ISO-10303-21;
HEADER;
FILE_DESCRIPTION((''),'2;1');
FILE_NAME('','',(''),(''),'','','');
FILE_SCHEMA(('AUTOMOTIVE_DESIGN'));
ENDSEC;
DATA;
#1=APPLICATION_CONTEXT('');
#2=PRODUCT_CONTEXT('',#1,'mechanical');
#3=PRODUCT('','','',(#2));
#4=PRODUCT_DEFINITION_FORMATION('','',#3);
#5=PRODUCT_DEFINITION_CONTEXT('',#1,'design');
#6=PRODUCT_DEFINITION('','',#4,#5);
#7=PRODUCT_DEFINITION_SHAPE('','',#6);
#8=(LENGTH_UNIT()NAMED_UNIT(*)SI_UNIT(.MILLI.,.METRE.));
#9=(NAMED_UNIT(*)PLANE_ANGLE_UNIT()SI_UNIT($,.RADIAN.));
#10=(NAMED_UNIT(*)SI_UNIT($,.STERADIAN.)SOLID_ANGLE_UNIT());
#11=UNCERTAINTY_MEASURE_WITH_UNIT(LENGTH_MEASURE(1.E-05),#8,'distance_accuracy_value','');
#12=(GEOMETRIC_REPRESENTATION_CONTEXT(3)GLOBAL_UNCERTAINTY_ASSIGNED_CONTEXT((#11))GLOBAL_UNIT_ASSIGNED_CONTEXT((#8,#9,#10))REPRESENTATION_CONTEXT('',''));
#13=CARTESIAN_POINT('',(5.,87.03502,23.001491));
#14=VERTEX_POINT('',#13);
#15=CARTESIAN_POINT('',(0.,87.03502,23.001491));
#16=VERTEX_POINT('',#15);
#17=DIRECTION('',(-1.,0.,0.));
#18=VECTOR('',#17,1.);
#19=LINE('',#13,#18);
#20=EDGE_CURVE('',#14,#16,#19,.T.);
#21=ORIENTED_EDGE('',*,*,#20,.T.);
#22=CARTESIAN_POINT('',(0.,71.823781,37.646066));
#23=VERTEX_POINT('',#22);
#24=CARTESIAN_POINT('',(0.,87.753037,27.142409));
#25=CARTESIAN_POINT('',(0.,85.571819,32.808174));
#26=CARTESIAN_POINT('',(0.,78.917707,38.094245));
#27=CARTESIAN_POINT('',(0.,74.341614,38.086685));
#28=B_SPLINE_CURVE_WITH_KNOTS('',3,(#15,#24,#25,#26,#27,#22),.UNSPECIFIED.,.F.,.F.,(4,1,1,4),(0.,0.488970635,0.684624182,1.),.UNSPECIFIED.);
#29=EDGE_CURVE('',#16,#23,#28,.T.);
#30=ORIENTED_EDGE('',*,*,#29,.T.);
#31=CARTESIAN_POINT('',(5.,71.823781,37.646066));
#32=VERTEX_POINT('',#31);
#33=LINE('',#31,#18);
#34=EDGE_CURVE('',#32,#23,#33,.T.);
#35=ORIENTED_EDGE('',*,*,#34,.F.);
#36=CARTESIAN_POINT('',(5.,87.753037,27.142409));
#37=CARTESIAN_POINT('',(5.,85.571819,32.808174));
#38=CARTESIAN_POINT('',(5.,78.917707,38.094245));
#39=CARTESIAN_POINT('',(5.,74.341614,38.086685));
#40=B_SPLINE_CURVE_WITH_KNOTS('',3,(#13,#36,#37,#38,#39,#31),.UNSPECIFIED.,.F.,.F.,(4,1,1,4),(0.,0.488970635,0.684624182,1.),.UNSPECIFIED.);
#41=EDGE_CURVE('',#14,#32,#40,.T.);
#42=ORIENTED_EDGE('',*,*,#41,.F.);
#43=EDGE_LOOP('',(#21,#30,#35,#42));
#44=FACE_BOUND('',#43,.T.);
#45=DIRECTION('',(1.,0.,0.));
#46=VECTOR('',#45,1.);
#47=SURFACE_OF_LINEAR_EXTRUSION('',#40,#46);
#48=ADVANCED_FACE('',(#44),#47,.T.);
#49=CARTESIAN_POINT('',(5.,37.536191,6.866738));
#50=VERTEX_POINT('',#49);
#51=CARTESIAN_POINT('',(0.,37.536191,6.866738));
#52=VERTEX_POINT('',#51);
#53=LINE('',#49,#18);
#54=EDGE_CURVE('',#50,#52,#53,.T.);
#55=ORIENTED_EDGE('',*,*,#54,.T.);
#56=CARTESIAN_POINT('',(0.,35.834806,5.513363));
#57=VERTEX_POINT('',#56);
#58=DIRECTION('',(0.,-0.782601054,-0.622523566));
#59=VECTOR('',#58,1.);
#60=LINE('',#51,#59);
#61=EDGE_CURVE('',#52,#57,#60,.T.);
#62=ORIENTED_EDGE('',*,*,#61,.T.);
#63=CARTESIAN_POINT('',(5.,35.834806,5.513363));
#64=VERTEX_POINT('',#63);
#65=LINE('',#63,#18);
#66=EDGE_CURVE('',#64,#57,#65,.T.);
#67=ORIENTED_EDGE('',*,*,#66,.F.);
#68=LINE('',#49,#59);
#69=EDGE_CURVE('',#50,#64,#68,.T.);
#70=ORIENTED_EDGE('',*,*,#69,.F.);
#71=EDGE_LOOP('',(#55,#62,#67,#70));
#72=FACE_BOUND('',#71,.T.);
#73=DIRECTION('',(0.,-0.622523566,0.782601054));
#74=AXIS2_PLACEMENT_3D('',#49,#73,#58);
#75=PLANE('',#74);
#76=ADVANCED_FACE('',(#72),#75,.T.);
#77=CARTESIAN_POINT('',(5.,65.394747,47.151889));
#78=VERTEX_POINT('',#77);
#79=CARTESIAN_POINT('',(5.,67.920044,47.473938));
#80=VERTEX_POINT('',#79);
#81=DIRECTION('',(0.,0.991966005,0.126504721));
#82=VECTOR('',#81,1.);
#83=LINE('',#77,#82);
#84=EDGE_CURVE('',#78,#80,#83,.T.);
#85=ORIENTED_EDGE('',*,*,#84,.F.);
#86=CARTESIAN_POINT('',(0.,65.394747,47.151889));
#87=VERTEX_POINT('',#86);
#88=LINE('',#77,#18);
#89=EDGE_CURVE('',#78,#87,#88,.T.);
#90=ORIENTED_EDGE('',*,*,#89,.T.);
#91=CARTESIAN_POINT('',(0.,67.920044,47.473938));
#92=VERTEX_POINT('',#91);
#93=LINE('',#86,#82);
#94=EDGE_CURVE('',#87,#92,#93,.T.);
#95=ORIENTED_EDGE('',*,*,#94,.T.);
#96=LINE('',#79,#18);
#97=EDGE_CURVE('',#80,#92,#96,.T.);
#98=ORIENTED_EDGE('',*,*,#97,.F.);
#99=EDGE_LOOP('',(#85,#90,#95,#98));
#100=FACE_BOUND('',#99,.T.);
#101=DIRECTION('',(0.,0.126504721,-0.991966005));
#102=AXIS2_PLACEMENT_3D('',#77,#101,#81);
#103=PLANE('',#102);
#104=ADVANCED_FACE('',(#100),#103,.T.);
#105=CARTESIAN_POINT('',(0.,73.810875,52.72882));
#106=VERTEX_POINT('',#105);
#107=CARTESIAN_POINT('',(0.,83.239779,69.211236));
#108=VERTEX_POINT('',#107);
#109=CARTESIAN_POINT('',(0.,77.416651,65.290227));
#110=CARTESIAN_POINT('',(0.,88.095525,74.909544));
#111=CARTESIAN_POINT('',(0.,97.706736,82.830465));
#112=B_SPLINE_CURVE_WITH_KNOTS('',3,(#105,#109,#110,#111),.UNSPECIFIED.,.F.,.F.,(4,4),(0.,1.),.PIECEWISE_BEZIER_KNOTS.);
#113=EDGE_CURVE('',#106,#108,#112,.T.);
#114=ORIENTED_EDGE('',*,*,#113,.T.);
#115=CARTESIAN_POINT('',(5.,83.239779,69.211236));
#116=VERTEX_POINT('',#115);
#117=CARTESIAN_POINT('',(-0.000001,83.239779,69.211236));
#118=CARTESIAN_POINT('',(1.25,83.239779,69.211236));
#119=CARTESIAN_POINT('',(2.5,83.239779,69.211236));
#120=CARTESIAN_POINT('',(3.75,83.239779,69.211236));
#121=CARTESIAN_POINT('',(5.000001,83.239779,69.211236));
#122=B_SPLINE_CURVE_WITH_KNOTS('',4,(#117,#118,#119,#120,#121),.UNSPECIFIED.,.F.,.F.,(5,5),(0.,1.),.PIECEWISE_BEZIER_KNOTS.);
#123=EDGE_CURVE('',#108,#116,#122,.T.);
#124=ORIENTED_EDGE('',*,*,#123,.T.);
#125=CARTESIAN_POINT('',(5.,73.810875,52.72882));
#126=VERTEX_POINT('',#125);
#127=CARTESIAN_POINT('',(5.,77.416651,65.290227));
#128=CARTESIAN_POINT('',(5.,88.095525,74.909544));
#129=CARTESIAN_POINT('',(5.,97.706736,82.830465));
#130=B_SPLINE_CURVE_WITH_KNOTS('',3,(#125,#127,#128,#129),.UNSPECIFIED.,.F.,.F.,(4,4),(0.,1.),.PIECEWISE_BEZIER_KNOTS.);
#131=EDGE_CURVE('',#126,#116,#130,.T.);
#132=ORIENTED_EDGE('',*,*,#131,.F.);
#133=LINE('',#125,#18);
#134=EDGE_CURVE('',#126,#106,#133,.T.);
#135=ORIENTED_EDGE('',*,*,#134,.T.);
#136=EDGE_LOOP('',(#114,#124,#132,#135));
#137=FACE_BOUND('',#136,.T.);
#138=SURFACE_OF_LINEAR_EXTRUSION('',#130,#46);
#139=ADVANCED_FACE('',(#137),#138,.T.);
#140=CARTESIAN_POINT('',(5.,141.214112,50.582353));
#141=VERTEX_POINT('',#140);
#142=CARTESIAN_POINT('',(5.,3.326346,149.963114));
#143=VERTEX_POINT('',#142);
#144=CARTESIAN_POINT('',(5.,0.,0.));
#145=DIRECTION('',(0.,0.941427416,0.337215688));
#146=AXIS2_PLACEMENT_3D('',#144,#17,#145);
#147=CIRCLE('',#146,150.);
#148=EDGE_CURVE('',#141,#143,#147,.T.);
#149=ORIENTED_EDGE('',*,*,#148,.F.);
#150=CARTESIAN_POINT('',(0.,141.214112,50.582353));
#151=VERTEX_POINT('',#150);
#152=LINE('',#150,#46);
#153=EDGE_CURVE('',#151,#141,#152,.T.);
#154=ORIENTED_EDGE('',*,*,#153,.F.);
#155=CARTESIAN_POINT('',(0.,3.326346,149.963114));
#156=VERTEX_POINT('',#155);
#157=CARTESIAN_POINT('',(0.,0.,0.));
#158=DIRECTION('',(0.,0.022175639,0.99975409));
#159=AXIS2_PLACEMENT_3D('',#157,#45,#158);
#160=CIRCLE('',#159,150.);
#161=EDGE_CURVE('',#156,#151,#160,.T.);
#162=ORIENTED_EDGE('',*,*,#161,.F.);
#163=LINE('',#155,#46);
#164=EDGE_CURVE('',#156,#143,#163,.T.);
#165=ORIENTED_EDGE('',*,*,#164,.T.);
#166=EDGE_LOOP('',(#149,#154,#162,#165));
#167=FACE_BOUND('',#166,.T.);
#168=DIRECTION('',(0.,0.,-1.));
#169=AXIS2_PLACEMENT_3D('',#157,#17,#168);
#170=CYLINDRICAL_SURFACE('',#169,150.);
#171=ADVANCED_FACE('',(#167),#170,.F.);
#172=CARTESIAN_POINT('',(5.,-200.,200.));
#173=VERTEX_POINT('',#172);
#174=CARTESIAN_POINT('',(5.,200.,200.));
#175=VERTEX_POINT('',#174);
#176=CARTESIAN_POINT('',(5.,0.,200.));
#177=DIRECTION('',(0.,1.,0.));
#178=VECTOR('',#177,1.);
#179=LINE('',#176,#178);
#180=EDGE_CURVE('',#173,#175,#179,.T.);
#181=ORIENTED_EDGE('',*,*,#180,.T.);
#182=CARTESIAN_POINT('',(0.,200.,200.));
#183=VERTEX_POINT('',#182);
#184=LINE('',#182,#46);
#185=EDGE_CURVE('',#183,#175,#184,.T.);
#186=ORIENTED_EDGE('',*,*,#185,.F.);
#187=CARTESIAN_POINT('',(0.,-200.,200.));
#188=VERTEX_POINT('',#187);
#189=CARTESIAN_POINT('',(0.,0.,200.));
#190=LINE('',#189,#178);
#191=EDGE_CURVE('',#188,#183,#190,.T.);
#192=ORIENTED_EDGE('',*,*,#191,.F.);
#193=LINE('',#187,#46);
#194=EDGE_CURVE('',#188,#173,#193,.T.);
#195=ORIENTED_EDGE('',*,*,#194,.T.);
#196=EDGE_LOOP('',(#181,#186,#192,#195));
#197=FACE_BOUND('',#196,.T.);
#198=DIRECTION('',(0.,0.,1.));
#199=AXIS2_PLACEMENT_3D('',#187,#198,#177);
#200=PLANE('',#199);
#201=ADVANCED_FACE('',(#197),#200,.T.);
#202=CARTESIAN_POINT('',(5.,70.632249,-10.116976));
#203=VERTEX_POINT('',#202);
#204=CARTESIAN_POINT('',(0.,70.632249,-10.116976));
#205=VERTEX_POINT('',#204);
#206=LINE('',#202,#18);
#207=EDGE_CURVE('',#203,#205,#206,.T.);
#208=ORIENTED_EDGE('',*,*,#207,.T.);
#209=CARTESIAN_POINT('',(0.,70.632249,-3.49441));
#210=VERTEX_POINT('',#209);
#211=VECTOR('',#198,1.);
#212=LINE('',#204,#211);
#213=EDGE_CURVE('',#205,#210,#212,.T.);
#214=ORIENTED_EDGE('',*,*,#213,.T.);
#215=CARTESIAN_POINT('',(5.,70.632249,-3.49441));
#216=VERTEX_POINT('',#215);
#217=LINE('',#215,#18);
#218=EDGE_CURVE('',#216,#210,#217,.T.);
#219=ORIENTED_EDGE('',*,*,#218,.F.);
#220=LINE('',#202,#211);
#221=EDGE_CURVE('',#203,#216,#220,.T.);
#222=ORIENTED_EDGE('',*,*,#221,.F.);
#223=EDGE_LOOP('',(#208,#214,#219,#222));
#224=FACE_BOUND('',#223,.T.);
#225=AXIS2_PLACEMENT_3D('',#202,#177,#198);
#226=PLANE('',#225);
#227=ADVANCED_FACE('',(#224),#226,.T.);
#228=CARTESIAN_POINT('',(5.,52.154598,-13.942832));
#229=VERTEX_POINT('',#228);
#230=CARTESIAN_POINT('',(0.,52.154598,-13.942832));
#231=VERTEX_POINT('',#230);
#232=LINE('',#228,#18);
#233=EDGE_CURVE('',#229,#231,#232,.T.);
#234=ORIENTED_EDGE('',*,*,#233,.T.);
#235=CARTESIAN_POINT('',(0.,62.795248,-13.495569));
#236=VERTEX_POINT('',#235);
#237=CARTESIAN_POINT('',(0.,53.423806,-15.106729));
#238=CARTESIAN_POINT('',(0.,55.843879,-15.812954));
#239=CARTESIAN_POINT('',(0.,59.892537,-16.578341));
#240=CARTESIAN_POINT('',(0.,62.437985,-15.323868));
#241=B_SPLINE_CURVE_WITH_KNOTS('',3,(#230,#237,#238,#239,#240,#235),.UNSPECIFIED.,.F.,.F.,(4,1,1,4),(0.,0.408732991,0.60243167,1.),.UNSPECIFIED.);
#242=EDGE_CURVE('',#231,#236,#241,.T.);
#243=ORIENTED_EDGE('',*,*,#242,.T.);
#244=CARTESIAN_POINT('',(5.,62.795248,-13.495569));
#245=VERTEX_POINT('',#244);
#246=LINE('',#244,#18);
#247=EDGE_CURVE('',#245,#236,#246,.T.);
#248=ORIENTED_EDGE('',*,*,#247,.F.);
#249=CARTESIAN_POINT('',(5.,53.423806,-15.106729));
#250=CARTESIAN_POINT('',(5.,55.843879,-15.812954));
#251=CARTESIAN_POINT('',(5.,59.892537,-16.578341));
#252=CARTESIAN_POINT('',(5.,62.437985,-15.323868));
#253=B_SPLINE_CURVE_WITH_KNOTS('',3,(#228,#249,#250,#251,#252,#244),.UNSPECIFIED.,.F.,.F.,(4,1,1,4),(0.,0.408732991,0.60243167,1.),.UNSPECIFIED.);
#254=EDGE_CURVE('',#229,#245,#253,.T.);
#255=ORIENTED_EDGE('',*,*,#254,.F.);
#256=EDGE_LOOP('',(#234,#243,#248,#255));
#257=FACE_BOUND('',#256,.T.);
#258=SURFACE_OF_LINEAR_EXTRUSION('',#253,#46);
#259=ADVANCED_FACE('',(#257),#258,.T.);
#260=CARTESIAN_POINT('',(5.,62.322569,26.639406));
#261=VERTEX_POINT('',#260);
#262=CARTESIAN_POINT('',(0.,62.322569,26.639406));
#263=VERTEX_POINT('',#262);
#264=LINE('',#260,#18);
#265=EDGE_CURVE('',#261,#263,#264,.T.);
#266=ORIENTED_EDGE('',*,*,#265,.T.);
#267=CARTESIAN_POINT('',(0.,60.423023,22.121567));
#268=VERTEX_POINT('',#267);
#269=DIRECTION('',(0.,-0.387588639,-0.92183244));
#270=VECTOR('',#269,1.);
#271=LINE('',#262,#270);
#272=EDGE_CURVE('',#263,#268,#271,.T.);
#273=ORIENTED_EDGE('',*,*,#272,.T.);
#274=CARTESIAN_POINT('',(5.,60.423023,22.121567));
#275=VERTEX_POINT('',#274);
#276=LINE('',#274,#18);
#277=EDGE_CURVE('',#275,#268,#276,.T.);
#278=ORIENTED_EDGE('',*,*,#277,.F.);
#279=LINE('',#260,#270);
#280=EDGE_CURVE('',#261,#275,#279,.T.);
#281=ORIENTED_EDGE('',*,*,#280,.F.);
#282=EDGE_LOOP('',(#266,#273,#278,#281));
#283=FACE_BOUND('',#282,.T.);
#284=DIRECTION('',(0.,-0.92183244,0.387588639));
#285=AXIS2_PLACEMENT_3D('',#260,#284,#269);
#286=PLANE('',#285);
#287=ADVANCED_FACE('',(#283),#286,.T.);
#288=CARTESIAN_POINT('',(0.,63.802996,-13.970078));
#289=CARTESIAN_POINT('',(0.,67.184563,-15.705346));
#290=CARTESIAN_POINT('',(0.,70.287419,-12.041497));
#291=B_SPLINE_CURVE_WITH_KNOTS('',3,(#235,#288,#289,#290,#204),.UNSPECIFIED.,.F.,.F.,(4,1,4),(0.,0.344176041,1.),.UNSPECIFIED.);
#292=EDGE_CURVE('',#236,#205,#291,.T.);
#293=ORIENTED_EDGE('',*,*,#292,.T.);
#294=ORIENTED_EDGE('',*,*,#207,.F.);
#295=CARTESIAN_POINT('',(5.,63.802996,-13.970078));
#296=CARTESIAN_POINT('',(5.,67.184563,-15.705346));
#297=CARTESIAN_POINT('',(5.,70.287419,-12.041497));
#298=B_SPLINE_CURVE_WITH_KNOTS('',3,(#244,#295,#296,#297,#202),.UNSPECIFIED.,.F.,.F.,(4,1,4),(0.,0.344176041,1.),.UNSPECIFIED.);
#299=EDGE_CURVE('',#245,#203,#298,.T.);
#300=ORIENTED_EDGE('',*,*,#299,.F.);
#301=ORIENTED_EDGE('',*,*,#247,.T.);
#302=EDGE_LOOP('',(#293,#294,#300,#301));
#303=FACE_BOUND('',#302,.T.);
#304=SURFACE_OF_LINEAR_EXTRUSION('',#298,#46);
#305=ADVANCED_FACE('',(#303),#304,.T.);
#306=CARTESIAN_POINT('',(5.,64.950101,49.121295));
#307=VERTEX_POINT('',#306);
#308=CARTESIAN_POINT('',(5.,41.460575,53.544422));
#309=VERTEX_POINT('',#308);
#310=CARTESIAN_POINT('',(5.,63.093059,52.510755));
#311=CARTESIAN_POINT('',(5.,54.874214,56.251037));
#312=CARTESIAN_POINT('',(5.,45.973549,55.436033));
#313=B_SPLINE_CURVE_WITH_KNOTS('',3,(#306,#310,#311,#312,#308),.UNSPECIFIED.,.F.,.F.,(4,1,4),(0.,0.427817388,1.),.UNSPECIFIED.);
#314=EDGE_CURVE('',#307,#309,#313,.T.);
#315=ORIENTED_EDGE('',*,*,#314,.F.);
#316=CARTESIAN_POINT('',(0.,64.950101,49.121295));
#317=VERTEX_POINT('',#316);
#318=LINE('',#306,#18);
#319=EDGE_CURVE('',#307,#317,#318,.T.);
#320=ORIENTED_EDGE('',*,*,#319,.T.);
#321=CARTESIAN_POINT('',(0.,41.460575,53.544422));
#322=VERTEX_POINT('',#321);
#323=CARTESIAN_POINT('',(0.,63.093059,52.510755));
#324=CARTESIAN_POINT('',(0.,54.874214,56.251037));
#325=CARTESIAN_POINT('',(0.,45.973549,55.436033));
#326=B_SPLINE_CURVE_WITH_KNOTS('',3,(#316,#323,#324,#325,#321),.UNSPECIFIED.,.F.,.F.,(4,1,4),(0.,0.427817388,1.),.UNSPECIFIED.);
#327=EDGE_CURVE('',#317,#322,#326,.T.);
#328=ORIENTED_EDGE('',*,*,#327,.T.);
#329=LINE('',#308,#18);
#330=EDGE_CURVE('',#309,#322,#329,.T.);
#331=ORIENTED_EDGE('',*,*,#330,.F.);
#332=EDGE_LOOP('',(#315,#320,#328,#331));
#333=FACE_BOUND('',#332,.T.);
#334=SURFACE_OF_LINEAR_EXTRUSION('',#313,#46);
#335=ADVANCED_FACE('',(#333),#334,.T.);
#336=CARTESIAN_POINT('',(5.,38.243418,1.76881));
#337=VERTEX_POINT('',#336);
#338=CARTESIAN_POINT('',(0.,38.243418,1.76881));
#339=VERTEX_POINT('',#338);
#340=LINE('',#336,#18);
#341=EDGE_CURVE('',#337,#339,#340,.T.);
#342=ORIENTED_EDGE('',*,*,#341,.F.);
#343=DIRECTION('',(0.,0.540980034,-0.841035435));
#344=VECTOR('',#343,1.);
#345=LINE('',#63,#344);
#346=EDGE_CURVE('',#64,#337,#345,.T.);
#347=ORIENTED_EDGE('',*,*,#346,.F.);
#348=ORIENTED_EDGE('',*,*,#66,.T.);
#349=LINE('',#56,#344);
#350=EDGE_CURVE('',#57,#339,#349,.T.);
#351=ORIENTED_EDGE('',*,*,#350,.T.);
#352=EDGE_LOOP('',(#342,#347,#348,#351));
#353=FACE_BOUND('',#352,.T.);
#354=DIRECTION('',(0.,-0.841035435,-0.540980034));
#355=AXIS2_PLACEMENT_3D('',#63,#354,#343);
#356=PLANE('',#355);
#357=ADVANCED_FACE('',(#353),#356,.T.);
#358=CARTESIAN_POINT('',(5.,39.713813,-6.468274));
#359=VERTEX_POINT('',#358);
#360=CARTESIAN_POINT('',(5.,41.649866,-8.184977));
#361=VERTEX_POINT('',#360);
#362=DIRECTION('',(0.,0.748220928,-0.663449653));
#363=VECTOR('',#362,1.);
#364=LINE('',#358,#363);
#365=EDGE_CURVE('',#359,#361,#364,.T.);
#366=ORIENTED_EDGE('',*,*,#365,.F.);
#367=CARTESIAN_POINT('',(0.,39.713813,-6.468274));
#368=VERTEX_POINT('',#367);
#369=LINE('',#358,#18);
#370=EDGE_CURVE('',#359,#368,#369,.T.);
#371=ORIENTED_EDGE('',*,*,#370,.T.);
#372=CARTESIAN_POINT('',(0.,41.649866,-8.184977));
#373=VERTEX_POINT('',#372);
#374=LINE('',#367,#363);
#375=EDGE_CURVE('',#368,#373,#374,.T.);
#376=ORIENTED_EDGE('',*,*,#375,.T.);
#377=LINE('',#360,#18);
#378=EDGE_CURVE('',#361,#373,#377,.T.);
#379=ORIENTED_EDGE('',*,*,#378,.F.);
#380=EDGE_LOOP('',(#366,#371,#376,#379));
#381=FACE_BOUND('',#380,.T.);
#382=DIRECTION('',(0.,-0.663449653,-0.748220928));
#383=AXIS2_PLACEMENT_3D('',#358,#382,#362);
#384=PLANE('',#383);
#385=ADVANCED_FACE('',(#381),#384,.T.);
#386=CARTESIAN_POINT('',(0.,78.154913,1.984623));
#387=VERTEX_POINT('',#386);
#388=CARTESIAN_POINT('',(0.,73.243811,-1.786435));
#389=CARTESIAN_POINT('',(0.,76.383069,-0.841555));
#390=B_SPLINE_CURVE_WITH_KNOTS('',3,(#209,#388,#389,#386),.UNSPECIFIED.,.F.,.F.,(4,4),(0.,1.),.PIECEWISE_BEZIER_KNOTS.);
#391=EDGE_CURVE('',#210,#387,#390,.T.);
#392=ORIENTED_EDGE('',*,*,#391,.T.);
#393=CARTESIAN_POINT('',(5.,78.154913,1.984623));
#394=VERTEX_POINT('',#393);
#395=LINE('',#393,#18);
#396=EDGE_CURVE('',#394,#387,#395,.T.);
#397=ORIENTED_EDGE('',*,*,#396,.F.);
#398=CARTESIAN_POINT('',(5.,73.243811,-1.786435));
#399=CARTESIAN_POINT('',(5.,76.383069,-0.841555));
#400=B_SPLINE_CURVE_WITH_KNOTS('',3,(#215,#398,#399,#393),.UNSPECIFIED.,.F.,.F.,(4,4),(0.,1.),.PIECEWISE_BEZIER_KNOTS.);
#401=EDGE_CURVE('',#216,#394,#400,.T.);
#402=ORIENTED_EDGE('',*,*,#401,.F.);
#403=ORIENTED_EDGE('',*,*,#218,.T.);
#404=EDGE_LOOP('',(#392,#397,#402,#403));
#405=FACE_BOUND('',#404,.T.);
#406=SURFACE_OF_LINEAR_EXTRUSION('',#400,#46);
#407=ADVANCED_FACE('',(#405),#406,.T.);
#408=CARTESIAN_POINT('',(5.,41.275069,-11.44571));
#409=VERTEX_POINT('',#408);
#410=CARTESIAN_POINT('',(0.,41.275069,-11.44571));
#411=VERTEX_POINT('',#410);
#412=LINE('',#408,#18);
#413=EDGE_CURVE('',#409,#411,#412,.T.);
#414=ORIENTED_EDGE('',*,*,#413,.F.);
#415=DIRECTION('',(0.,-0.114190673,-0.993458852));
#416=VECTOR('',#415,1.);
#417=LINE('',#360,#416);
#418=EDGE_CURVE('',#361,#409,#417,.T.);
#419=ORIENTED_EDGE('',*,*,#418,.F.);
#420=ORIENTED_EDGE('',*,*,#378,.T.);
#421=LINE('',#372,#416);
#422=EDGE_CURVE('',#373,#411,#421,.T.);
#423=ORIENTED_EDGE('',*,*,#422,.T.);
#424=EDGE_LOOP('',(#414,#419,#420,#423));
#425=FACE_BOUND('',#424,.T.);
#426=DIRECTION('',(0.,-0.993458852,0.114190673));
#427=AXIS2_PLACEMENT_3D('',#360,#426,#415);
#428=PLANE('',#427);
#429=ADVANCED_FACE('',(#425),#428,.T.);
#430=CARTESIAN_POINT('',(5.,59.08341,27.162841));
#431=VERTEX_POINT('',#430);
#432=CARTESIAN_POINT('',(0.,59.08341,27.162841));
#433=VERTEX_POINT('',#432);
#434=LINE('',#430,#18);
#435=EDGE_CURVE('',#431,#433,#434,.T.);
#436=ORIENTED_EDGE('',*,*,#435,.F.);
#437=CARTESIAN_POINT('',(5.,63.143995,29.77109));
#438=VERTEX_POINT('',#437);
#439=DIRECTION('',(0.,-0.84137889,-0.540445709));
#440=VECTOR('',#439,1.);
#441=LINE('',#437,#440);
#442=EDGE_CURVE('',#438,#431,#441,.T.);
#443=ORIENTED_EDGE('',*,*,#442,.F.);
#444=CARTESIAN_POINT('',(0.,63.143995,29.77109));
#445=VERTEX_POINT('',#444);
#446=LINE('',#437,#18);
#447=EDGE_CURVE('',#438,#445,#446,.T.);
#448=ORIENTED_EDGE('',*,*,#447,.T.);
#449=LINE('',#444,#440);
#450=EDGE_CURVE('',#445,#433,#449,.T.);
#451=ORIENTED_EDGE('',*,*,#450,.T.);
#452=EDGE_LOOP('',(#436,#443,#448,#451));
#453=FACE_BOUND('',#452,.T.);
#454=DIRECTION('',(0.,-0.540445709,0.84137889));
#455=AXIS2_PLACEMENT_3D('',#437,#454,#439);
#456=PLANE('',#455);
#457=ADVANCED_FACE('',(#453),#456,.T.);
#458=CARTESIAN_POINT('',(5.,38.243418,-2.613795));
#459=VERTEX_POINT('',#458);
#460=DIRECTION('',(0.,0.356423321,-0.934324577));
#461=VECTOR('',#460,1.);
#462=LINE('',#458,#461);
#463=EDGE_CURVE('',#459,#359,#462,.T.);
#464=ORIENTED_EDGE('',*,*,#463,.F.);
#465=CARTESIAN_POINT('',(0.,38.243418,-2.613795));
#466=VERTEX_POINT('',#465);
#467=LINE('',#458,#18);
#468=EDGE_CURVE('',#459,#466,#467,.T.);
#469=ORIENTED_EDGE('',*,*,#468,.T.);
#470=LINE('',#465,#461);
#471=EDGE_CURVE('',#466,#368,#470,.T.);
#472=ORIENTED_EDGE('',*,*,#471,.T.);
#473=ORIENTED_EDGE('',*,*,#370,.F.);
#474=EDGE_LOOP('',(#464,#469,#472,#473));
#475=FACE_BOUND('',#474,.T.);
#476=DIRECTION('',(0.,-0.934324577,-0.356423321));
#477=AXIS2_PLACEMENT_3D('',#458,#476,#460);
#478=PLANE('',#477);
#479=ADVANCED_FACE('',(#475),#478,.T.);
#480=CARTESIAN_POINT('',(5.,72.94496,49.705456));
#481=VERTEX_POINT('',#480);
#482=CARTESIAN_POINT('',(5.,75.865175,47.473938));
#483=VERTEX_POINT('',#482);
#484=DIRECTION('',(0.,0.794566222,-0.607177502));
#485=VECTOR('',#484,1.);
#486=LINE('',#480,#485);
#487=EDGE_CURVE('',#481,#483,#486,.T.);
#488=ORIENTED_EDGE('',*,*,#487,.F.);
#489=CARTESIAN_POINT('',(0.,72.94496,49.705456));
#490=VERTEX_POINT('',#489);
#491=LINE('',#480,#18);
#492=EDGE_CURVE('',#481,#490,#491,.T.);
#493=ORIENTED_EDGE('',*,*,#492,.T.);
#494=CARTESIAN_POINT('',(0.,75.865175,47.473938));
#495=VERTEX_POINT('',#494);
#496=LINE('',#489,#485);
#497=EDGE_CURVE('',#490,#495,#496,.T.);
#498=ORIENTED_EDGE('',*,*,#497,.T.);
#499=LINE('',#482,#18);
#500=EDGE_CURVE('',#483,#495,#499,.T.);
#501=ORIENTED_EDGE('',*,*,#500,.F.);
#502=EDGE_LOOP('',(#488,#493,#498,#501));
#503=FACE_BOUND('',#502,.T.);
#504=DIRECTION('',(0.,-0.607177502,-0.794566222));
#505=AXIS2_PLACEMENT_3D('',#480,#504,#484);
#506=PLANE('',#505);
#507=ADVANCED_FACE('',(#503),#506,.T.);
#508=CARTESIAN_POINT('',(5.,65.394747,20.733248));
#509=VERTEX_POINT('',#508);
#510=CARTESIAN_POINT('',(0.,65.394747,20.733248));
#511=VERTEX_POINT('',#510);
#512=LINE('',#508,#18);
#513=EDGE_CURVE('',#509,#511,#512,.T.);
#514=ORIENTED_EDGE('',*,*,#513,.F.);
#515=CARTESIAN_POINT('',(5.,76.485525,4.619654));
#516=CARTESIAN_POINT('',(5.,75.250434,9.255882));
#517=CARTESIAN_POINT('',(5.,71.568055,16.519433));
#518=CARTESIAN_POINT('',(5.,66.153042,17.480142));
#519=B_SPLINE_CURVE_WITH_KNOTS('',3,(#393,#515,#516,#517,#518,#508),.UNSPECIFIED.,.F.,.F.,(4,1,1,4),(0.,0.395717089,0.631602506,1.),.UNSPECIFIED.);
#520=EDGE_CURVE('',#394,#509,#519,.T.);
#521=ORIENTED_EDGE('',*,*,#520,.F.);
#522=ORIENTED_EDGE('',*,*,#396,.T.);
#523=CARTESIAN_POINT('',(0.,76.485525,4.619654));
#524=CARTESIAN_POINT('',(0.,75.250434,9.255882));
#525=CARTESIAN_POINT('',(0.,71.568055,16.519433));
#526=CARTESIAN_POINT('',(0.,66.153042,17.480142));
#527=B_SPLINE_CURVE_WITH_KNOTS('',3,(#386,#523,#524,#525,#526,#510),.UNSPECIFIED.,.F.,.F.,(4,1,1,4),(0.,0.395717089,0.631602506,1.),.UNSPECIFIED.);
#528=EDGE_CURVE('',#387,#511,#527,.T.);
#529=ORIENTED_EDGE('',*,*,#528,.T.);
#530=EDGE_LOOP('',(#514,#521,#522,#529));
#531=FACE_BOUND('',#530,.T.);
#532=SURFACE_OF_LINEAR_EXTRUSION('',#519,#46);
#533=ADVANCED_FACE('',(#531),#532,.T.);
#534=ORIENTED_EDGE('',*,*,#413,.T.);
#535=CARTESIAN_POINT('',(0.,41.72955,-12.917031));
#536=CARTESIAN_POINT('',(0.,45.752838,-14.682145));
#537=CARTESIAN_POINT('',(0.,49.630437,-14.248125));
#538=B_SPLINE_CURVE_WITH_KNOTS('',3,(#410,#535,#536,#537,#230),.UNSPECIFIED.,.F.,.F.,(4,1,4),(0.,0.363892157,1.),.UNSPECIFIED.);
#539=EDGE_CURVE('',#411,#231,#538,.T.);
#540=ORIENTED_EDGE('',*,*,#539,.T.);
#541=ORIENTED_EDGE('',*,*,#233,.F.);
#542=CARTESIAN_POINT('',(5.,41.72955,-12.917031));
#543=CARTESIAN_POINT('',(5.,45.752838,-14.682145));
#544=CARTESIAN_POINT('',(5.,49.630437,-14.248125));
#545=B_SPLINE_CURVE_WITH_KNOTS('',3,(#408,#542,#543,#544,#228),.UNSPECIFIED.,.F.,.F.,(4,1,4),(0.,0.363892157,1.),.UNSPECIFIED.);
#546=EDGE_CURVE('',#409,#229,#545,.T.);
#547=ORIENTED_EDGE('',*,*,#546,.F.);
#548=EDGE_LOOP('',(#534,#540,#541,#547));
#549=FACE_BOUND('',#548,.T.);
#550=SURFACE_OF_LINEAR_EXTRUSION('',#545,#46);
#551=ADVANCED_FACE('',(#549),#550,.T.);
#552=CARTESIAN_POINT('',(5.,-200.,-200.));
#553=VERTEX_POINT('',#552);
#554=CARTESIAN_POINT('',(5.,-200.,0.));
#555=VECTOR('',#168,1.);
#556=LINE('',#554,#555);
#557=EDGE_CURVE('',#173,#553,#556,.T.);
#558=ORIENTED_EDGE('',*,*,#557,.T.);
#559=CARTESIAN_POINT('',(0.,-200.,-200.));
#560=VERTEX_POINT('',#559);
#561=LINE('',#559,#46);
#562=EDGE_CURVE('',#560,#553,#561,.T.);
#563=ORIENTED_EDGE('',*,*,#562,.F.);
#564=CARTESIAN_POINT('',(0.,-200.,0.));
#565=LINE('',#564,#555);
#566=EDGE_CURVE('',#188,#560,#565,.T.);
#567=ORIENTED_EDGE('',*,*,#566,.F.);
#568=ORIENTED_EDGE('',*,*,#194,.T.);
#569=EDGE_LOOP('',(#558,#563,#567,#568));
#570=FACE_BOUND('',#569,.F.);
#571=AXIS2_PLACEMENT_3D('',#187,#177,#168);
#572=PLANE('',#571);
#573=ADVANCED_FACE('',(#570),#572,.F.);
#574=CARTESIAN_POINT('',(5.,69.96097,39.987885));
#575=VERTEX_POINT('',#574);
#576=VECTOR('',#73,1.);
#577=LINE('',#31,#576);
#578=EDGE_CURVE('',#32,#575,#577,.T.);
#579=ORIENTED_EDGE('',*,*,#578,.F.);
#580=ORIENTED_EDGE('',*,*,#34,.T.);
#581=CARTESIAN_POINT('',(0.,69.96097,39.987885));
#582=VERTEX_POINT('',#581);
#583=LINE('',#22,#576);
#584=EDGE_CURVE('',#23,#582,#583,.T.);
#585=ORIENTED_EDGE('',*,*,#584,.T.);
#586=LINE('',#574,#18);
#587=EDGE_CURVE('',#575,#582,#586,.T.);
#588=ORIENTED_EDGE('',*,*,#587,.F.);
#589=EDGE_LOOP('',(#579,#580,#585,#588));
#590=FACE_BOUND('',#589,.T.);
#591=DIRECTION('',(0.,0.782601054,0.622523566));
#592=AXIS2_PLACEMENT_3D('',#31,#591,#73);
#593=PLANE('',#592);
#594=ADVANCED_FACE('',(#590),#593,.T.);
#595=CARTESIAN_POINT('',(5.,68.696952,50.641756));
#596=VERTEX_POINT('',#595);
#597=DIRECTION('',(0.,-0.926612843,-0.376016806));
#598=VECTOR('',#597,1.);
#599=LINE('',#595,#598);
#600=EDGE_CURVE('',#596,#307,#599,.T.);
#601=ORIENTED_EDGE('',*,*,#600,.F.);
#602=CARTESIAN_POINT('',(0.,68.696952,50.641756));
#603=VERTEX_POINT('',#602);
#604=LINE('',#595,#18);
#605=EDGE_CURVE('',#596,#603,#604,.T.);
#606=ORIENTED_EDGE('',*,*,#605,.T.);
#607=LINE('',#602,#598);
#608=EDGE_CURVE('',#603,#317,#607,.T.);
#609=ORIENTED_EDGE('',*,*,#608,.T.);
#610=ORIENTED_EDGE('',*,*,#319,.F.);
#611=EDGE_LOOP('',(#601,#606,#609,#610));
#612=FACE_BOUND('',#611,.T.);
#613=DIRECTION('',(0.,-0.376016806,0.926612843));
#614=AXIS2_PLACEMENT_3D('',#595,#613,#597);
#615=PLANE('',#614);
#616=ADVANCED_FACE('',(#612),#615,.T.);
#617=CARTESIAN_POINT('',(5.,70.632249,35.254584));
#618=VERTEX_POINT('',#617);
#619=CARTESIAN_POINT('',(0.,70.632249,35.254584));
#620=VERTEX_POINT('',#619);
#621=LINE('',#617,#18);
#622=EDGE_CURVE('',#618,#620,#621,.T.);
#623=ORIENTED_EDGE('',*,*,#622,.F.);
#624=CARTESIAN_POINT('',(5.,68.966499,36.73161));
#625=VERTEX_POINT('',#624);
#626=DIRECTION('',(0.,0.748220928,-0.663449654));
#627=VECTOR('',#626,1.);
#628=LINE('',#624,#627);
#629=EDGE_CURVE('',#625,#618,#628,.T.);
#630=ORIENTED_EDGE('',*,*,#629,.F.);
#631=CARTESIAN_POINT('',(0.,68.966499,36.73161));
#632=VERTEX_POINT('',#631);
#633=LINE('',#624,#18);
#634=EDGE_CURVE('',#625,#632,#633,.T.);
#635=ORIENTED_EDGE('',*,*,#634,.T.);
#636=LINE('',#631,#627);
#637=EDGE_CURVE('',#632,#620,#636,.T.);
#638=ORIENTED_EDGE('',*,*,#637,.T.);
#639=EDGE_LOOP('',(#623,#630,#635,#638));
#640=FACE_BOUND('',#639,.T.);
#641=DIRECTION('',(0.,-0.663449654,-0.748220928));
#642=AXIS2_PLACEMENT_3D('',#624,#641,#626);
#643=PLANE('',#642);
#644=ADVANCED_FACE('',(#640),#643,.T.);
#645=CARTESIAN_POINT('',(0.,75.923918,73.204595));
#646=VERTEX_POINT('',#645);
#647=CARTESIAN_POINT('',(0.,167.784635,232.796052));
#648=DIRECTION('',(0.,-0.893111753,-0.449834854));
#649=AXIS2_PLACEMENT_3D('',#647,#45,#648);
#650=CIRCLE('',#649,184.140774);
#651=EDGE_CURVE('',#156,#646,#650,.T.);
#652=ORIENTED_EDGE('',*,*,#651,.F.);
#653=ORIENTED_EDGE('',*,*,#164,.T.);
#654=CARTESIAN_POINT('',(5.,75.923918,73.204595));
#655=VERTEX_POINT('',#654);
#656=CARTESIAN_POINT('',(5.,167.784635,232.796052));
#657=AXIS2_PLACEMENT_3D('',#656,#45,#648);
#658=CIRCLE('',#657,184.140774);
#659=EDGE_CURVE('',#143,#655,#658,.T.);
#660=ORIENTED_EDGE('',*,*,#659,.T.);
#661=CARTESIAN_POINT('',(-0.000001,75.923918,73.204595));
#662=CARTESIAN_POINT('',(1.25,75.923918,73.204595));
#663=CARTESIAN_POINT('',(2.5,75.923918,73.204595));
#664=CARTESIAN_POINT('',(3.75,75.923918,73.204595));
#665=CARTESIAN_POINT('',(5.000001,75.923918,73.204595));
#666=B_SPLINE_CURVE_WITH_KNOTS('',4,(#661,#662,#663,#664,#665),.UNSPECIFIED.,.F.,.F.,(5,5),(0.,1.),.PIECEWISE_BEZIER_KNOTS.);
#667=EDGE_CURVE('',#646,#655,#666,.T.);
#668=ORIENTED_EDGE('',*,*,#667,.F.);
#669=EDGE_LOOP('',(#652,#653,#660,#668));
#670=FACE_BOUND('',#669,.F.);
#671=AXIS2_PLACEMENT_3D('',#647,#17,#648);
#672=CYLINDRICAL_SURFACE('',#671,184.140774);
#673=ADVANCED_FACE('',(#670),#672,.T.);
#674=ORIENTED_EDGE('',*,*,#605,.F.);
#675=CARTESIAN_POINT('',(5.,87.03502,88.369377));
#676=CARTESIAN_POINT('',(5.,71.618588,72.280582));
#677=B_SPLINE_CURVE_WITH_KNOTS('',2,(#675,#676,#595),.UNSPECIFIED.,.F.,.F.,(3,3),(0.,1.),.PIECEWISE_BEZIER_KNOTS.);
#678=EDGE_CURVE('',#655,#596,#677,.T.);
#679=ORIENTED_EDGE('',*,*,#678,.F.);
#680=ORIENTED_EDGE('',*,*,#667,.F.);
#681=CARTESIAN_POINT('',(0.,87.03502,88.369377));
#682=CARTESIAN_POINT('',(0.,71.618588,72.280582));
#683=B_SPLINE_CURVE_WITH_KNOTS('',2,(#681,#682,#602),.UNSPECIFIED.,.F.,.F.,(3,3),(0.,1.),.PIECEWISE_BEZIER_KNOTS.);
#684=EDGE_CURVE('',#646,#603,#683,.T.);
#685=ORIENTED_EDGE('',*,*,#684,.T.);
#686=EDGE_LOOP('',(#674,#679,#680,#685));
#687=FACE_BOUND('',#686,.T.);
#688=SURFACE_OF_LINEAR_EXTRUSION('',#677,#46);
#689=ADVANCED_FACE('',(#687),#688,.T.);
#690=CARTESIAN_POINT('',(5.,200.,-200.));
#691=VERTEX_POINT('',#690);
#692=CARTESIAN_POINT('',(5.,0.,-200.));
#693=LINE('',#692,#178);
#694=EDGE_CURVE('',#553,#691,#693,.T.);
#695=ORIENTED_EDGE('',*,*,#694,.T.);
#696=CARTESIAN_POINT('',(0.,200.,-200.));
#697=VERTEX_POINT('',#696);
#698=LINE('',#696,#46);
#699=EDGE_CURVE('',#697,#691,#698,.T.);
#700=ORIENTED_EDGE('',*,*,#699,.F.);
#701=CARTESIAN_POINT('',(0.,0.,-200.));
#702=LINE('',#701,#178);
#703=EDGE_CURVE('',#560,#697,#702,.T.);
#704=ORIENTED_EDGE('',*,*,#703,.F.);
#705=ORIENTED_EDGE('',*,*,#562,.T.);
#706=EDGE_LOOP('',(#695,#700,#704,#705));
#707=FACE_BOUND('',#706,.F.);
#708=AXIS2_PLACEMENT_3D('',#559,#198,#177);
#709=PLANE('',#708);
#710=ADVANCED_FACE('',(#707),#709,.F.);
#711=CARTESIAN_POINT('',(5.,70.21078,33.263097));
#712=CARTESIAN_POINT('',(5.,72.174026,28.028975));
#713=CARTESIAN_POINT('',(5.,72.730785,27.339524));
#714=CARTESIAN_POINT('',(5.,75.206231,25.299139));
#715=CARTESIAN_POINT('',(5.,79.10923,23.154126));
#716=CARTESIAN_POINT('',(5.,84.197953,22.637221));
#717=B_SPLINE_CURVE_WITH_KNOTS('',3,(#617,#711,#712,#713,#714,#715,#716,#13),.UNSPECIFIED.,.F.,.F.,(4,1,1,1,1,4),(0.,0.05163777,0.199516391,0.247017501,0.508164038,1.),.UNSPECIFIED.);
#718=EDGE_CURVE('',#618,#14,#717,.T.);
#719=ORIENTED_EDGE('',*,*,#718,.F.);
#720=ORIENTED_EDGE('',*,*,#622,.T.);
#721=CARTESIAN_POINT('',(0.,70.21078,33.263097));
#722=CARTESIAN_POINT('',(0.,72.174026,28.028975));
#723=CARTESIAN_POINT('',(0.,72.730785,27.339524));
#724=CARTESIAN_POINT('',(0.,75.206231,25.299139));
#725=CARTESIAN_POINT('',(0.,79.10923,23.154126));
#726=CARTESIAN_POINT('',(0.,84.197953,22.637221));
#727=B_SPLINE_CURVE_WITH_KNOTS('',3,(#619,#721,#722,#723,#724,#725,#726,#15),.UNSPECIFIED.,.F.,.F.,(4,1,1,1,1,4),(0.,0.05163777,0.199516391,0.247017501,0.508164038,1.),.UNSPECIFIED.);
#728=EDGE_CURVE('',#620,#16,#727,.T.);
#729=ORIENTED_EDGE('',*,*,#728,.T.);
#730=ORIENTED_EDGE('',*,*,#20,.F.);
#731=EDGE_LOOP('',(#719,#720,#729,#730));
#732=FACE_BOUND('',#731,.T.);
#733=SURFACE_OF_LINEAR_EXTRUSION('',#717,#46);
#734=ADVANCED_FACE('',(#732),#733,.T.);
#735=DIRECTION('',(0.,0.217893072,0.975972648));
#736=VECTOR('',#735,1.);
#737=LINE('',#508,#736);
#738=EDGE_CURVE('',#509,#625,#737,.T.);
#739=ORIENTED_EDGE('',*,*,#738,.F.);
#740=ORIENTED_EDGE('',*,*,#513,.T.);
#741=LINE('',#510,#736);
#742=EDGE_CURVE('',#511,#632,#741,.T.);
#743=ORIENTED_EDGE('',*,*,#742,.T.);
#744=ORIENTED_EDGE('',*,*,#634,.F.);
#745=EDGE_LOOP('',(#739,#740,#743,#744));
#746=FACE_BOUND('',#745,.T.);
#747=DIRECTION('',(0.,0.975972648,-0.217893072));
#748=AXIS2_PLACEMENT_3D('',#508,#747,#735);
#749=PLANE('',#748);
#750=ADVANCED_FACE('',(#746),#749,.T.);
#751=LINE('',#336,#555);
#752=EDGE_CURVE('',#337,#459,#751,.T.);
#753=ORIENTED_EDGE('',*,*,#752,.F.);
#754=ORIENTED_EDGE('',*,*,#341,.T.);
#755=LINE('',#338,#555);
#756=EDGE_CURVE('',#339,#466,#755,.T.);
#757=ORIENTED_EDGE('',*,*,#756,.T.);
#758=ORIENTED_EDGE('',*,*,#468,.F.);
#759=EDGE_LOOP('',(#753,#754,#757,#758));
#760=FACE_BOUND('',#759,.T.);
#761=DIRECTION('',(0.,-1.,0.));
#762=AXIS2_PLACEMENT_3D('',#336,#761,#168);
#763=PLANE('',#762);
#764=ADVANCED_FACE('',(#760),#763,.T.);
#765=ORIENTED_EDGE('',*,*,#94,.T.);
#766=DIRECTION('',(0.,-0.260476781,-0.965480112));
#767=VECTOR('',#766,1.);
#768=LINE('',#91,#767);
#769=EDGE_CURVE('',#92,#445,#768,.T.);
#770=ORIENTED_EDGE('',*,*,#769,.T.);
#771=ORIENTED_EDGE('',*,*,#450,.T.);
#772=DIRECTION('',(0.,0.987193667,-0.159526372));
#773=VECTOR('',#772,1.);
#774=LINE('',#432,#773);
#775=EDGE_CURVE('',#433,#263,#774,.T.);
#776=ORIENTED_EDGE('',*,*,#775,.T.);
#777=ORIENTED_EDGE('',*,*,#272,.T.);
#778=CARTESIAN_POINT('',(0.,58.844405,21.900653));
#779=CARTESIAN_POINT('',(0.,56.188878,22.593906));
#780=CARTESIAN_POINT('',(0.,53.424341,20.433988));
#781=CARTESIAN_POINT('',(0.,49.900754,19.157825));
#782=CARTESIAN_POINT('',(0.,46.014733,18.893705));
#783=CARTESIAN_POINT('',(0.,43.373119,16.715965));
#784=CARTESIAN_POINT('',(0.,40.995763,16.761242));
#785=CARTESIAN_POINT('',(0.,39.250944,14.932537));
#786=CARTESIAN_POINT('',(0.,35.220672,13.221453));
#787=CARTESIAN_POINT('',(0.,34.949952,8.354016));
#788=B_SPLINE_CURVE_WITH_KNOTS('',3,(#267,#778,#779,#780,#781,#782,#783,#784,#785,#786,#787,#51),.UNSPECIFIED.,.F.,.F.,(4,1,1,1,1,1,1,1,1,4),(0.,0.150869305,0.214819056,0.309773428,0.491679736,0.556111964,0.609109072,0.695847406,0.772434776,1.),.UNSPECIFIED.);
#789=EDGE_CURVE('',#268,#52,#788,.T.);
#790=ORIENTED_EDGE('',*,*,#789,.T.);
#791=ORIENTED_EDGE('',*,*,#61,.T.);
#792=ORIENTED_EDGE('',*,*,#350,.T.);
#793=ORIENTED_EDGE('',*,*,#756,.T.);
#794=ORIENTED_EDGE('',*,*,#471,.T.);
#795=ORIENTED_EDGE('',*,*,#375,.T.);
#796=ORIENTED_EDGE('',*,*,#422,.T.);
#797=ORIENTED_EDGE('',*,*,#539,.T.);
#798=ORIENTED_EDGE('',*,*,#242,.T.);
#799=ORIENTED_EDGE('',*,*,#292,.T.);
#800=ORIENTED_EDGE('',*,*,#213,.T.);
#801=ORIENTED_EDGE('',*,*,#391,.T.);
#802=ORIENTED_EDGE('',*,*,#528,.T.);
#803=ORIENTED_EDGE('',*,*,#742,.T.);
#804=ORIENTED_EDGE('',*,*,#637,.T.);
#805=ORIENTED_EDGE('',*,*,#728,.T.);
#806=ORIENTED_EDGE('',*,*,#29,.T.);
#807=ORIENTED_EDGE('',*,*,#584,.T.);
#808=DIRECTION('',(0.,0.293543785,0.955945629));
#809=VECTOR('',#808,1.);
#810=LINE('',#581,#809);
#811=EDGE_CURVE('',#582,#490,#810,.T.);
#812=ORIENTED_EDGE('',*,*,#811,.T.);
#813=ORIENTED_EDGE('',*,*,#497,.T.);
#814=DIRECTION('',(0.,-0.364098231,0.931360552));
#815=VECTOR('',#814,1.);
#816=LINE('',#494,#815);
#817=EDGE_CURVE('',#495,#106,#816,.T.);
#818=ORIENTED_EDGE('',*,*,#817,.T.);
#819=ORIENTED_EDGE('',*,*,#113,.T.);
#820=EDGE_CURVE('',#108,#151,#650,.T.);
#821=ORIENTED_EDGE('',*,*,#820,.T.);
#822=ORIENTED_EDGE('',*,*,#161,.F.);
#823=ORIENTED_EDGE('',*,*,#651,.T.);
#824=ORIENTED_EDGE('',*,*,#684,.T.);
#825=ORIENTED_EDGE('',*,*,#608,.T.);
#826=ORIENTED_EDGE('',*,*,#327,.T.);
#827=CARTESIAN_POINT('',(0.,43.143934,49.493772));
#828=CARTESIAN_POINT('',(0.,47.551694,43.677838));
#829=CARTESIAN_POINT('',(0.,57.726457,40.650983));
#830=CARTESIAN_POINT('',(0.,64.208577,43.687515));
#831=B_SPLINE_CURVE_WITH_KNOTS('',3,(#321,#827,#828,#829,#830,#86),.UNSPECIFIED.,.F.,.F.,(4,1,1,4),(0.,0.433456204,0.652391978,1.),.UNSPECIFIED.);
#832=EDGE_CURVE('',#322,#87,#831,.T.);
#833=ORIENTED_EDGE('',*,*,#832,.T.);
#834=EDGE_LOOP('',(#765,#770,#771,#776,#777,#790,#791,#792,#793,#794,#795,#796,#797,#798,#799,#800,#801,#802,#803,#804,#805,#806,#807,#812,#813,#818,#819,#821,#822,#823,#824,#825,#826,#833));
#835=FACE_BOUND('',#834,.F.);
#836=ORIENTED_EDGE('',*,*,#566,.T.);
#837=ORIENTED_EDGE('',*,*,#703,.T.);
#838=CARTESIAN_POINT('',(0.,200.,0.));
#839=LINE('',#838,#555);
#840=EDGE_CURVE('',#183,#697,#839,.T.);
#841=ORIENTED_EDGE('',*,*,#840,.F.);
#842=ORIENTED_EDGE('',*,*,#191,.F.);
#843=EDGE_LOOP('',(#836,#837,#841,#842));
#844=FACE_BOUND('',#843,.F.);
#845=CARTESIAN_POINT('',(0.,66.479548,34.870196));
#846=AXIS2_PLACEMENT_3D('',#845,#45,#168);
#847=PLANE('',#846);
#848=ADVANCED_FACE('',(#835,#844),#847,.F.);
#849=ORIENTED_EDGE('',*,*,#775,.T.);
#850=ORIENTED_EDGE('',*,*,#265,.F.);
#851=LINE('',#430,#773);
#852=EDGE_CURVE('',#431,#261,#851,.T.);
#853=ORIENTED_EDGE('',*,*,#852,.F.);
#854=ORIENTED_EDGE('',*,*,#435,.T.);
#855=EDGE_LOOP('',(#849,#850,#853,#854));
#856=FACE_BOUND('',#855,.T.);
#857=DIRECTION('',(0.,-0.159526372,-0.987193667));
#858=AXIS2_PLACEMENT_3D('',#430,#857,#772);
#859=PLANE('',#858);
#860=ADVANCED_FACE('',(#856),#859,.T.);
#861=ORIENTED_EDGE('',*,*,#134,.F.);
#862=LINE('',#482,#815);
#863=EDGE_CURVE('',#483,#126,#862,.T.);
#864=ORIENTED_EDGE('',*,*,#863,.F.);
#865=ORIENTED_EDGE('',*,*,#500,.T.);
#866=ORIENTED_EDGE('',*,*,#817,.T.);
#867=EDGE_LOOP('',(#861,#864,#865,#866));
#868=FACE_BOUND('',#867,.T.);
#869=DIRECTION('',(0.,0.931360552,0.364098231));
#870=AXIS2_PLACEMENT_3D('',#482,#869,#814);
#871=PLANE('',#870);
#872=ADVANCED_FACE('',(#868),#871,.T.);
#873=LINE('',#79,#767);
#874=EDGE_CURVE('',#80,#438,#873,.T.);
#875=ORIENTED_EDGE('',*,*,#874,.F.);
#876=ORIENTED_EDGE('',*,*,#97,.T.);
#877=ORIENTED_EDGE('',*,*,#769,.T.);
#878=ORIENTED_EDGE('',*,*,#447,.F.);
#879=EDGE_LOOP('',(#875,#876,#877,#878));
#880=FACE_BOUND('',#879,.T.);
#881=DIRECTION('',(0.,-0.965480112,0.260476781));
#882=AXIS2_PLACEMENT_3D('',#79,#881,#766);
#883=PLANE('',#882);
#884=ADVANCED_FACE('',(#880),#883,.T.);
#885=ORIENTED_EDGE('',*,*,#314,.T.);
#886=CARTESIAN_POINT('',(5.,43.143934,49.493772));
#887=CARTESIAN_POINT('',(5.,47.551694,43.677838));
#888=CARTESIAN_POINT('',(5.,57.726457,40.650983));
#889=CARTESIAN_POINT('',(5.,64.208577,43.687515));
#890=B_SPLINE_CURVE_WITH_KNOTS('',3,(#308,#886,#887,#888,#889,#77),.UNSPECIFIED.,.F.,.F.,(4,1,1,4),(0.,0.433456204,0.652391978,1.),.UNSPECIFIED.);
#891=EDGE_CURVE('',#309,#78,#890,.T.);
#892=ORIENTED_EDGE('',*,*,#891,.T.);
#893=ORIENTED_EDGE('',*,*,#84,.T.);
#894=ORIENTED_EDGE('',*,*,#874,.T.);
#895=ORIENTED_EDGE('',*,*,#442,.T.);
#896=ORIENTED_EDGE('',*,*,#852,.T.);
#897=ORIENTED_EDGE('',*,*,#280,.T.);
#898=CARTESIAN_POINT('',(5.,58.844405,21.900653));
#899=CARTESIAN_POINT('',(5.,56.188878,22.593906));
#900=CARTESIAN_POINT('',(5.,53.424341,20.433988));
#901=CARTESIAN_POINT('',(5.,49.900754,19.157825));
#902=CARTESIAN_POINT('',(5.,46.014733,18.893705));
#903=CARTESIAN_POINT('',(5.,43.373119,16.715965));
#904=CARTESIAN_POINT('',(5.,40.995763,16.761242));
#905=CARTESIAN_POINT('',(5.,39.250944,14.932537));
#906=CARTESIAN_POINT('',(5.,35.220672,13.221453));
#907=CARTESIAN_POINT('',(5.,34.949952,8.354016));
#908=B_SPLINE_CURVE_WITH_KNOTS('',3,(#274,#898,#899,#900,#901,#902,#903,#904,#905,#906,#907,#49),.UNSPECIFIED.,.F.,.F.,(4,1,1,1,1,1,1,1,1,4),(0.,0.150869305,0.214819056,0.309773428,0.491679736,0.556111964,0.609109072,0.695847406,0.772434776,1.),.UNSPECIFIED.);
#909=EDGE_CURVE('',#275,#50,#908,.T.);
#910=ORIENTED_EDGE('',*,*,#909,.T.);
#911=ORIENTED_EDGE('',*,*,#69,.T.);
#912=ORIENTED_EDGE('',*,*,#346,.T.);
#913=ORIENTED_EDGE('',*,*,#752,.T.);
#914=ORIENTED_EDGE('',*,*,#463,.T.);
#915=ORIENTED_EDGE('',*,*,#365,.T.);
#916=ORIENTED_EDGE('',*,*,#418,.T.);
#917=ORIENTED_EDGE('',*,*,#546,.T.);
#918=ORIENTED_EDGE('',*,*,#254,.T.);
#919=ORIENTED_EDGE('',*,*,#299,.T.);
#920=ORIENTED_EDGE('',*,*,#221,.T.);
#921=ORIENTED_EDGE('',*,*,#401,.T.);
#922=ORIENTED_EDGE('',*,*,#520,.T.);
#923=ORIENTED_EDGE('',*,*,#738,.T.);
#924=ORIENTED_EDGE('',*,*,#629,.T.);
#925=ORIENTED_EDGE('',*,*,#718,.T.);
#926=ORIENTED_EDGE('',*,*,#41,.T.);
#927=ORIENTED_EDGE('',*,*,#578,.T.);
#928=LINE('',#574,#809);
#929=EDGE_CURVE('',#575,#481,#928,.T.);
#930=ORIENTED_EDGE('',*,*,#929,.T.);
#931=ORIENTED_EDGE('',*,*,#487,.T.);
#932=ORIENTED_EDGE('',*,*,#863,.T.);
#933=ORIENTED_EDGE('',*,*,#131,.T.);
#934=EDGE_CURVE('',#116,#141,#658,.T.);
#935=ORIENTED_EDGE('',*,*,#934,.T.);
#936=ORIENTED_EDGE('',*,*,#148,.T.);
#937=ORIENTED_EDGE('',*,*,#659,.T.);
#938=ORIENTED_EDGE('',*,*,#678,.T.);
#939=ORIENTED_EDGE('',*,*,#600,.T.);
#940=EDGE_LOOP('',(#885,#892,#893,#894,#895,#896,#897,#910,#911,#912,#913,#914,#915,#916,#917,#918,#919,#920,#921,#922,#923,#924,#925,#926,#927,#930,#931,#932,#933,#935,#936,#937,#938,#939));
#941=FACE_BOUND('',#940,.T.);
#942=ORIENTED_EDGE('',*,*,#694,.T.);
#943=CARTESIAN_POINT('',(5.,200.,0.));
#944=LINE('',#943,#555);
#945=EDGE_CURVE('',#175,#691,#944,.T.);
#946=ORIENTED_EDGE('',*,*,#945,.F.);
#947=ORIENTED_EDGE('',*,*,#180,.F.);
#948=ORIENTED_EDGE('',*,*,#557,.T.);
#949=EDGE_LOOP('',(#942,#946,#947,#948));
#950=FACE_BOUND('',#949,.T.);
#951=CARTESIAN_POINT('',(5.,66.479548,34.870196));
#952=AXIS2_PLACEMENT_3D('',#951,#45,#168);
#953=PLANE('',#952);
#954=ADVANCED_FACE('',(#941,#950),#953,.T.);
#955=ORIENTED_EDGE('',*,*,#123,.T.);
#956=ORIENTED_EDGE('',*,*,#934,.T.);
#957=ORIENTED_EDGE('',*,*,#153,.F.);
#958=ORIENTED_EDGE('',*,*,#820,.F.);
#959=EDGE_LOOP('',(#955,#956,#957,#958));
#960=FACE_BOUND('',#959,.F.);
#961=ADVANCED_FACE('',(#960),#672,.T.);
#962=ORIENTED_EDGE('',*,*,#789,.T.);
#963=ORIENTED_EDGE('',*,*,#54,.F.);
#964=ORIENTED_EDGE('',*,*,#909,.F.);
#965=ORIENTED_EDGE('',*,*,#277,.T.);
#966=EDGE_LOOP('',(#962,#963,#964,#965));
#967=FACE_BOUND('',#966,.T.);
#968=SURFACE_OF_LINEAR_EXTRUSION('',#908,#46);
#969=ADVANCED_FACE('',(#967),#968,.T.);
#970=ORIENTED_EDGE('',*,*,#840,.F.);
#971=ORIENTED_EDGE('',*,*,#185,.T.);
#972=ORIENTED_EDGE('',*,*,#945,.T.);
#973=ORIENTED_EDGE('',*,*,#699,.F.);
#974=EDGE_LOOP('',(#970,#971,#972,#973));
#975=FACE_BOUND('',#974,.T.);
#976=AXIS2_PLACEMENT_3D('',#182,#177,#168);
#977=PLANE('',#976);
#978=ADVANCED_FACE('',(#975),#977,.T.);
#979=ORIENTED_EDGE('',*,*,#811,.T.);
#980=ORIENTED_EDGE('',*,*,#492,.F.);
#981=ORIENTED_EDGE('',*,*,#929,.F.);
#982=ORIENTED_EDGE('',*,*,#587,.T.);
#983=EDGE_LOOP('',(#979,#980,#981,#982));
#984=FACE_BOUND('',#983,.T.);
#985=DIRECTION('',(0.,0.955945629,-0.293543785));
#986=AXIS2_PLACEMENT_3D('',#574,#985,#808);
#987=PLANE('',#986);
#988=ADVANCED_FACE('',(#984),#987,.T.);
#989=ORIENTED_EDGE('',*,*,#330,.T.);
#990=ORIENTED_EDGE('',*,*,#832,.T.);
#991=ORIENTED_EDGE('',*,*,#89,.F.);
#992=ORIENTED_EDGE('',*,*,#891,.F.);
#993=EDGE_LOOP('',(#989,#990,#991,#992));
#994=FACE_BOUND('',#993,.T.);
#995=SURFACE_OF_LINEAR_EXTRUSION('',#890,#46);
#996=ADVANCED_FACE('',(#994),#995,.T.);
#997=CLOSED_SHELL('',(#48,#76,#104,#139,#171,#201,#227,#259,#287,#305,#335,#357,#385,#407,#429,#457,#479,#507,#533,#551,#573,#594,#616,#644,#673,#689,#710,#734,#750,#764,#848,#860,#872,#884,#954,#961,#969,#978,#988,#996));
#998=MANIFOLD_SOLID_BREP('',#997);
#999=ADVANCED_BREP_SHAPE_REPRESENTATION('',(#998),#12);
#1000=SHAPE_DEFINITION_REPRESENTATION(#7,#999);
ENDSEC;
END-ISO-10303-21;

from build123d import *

# Parameters (mm, degrees)
ESQUISSE1_W        = 400
ESQUISSE1_H        = 400
ESQUISSE1_R        = 150
BOSS_EXTRU_1_DEPTH = 5
BOSS_EXTRU_2_START = -5
BOSS_EXTRU_2_DEPTH = 5
BOSS_EXTRU_3_DEPTH = 5


with BuildPart() as part:
    # Esquisse1 → Boss.-Extru.1 (new body)
    with BuildSketch(Plane(origin=(0, 0, 0), x_dir=(0, 0, -1), z_dir=(1, 0, 0))):
        Rectangle(ESQUISSE1_W, ESQUISSE1_H)
        Circle(ESQUISSE1_R, mode=Mode.SUBTRACT)
    extrude(amount=BOSS_EXTRU_1_DEPTH)

    # Esquisse2 → Boss.-Extru.2 (add)
    with BuildSketch(Plane(origin=(5, 0, 0), x_dir=(0, 0, -1), z_dir=(1, 0, 0)).offset(BOSS_EXTRU_2_START)):
        with BuildLine():
            ThreePointArc((-149.963113542, 3.326345848), (-83.411685222, 60.117854594), (-50.582353171, 141.214112424))
            ThreePointArc((-50.582353171, 141.214112424), (-121.687633298, 87.704731357), (-149.963113542, 3.326345848))
        make_face()
    extrude(amount=BOSS_EXTRU_2_DEPTH)

    # Esquisse3 → Boss.-Extru.3 (add)
    with BuildSketch(Plane(origin=(5, 0, 0), x_dir=(0, 0, -1), z_dir=(1, 0, 0))):
        with BuildLine():
            Line((-50.641756069, 68.696951836), (-49.121294777, 64.950100794))
            add(Edge.make_bspline(
                [(-49.121294777, 64.950100794), (-52.51075488, 63.09305926), (-56.251037239, 54.874213626), (-55.436032913, 45.973549374), (-53.544421741, 41.460575016)],
                knots=[0, 0, 0, 0, 0.427817388, 1, 1, 1, 1], degree=3))
            add(Edge.make_bspline(
                [(-53.544421741, 41.460575016), (-49.493771524, 43.143934267), (-43.677837846, 47.551694172), (-40.650983319, 57.726456605), (-43.687514554, 64.208576547), (-47.151888648, 65.394746752)],
                knots=[0, 0, 0, 0, 0.433456204, 0.652391978, 1, 1, 1, 1], degree=3))
            Line((-47.151888648, 65.394746752), (-47.473938049, 67.920044269))
            Line((-47.473938049, 67.920044269), (-29.771089937, 63.143994688))
            Line((-29.771089937, 63.143994688), (-27.162840794, 59.083409632))
            Line((-27.162840794, 59.083409632), (-26.639406106, 62.322569421))
            Line((-26.639406106, 62.322569421), (-22.121567137, 60.423023491))
            add(Edge.make_bspline(
                [(-22.121567137, 60.423023491), (-21.900652986, 58.844405298), (-22.593906313, 56.188877616), (-20.433988328, 53.424341294), (-19.157824546, 49.900753611), (-18.893704947, 46.014732552), (-16.715964955, 43.373118799), (-16.761241643, 40.99576311), (-14.932536534, 39.250943841), (-13.221453122, 35.220671727), (-8.354015779, 34.949952489), (-6.866737858, 37.536191267)],
                knots=[0, 0, 0, 0, 0.150869305, 0.214819056, 0.309773428, 0.491679736, 0.556111964, 0.609109072, 0.695847406, 0.772434776, 1, 1, 1, 1], degree=3))
            Line((-6.866737858, 37.536191267), (-5.513363019, 35.834805755))
            Line((-5.513363019, 35.834805755), (-1.768809898, 38.243418268))
            Line((-1.768809898, 38.243418268), (2.613795129, 38.243418268))
            Line((2.613795129, 38.243418268), (6.468274065, 39.713813265))
            Line((6.468274065, 39.713813265), (8.184977276, 41.64986563))
            Line((8.184977276, 41.64986563), (11.445710099, 41.275068754))
            add(Edge.make_bspline(
                [(11.445710099, 41.275068754), (12.91703059, 41.729549687), (14.682145059, 45.752837691), (14.248125034, 49.630437287), (13.942831767, 52.154597518)],
                knots=[0, 0, 0, 0, 0.363892157, 1, 1, 1, 1], degree=3))
            add(Edge.make_bspline(
                [(13.942831767, 52.154597518), (15.106729387, 53.423805744), (15.81295353, 55.843879283), (16.578340557, 59.892537097), (15.323868262, 62.437984958), (13.495569111, 62.795247815)],
                knots=[0, 0, 0, 0, 0.408732991, 0.60243167, 1, 1, 1, 1], degree=3))
            add(Edge.make_bspline(
                [(13.495569111, 62.795247815), (13.970078, 63.802995831), (15.705345795, 67.184562867), (12.041497459, 70.287418684), (10.116975826, 70.632248522)],
                knots=[0, 0, 0, 0, 0.344176041, 1, 1, 1, 1], degree=3))
            Line((10.116975826, 70.632248522), (3.494410121, 70.632248522))
            add(Edge.make_bspline(
                [(3.494410121, 70.632248522), (1.786435249, 73.243810631), (0.841555231, 76.383068781), (-1.984622914, 78.154912931)],
                knots=[0, 0, 0, 0, 1, 1, 1, 1], degree=3))
            add(Edge.make_bspline(
                [(-1.984622914, 78.154912931), (-4.619654468, 76.485525149), (-9.255881643, 75.250433561), (-16.519433272, 71.568054765), (-17.480141985, 66.153041817), (-20.733248382, 65.394746752)],
                knots=[0, 0, 0, 0, 0.395717089, 0.631602506, 1, 1, 1, 1], degree=3))
            Line((-20.733248382, 65.394746752), (-36.731609625, 68.966498574))
            Line((-36.731609625, 68.966498574), (-35.254584345, 70.632248522))
            add(Edge.make_bspline(
                [(-35.254584345, 70.632248522), (-33.26309679, 70.210780339), (-28.028974684, 72.174025739), (-27.339523708, 72.730784764), (-25.299138881, 75.206231145), (-23.154125649, 79.109230145), (-22.637221031, 84.197953328), (-23.001491077, 87.035020266)],
                knots=[0, 0, 0, 0, 0.05163777, 0.199516391, 0.247017501, 0.508164038, 1, 1, 1, 1], degree=3))
            add(Edge.make_bspline(
                [(-23.001491077, 87.035020266), (-27.142409249, 87.753037067), (-32.808173774, 85.571818964), (-38.094245187, 78.91770696), (-38.086684666, 74.341614121), (-37.646065549, 71.823781121)],
                knots=[0, 0, 0, 0, 0.488970635, 0.684624182, 1, 1, 1, 1], degree=3))
            Line((-37.646065549, 71.823781121), (-39.987885316, 69.960969942))
            Line((-39.987885316, 69.960969942), (-49.705455686, 72.944960143))
            Line((-49.705455686, 72.944960143), (-47.473938049, 75.865174629))
            Line((-47.473938049, 75.865174629), (-52.728820416, 73.810875285))
            add(Edge.make_bspline(
                [(-52.728820416, 73.810875285), (-65.290226854, 77.416651114), (-74.909544365, 88.095525002), (-82.830465292, 97.70673649)],
                knots=[0, 0, 0, 0, 1, 1, 1, 1], degree=3))
            Line((-82.830465292, 97.70673649), (-88.369376858, 87.035020266))
            add(Edge.make_bspline(
                [(-88.369376858, 87.035020266), (-72.280582145, 71.618587652), (-50.641756069, 68.696951836)],
                knots=[0, 0, 0, 1, 1, 1], degree=2))
        make_face()
    extrude(amount=-BOSS_EXTRU_3_DEPTH)


solid = part.part
